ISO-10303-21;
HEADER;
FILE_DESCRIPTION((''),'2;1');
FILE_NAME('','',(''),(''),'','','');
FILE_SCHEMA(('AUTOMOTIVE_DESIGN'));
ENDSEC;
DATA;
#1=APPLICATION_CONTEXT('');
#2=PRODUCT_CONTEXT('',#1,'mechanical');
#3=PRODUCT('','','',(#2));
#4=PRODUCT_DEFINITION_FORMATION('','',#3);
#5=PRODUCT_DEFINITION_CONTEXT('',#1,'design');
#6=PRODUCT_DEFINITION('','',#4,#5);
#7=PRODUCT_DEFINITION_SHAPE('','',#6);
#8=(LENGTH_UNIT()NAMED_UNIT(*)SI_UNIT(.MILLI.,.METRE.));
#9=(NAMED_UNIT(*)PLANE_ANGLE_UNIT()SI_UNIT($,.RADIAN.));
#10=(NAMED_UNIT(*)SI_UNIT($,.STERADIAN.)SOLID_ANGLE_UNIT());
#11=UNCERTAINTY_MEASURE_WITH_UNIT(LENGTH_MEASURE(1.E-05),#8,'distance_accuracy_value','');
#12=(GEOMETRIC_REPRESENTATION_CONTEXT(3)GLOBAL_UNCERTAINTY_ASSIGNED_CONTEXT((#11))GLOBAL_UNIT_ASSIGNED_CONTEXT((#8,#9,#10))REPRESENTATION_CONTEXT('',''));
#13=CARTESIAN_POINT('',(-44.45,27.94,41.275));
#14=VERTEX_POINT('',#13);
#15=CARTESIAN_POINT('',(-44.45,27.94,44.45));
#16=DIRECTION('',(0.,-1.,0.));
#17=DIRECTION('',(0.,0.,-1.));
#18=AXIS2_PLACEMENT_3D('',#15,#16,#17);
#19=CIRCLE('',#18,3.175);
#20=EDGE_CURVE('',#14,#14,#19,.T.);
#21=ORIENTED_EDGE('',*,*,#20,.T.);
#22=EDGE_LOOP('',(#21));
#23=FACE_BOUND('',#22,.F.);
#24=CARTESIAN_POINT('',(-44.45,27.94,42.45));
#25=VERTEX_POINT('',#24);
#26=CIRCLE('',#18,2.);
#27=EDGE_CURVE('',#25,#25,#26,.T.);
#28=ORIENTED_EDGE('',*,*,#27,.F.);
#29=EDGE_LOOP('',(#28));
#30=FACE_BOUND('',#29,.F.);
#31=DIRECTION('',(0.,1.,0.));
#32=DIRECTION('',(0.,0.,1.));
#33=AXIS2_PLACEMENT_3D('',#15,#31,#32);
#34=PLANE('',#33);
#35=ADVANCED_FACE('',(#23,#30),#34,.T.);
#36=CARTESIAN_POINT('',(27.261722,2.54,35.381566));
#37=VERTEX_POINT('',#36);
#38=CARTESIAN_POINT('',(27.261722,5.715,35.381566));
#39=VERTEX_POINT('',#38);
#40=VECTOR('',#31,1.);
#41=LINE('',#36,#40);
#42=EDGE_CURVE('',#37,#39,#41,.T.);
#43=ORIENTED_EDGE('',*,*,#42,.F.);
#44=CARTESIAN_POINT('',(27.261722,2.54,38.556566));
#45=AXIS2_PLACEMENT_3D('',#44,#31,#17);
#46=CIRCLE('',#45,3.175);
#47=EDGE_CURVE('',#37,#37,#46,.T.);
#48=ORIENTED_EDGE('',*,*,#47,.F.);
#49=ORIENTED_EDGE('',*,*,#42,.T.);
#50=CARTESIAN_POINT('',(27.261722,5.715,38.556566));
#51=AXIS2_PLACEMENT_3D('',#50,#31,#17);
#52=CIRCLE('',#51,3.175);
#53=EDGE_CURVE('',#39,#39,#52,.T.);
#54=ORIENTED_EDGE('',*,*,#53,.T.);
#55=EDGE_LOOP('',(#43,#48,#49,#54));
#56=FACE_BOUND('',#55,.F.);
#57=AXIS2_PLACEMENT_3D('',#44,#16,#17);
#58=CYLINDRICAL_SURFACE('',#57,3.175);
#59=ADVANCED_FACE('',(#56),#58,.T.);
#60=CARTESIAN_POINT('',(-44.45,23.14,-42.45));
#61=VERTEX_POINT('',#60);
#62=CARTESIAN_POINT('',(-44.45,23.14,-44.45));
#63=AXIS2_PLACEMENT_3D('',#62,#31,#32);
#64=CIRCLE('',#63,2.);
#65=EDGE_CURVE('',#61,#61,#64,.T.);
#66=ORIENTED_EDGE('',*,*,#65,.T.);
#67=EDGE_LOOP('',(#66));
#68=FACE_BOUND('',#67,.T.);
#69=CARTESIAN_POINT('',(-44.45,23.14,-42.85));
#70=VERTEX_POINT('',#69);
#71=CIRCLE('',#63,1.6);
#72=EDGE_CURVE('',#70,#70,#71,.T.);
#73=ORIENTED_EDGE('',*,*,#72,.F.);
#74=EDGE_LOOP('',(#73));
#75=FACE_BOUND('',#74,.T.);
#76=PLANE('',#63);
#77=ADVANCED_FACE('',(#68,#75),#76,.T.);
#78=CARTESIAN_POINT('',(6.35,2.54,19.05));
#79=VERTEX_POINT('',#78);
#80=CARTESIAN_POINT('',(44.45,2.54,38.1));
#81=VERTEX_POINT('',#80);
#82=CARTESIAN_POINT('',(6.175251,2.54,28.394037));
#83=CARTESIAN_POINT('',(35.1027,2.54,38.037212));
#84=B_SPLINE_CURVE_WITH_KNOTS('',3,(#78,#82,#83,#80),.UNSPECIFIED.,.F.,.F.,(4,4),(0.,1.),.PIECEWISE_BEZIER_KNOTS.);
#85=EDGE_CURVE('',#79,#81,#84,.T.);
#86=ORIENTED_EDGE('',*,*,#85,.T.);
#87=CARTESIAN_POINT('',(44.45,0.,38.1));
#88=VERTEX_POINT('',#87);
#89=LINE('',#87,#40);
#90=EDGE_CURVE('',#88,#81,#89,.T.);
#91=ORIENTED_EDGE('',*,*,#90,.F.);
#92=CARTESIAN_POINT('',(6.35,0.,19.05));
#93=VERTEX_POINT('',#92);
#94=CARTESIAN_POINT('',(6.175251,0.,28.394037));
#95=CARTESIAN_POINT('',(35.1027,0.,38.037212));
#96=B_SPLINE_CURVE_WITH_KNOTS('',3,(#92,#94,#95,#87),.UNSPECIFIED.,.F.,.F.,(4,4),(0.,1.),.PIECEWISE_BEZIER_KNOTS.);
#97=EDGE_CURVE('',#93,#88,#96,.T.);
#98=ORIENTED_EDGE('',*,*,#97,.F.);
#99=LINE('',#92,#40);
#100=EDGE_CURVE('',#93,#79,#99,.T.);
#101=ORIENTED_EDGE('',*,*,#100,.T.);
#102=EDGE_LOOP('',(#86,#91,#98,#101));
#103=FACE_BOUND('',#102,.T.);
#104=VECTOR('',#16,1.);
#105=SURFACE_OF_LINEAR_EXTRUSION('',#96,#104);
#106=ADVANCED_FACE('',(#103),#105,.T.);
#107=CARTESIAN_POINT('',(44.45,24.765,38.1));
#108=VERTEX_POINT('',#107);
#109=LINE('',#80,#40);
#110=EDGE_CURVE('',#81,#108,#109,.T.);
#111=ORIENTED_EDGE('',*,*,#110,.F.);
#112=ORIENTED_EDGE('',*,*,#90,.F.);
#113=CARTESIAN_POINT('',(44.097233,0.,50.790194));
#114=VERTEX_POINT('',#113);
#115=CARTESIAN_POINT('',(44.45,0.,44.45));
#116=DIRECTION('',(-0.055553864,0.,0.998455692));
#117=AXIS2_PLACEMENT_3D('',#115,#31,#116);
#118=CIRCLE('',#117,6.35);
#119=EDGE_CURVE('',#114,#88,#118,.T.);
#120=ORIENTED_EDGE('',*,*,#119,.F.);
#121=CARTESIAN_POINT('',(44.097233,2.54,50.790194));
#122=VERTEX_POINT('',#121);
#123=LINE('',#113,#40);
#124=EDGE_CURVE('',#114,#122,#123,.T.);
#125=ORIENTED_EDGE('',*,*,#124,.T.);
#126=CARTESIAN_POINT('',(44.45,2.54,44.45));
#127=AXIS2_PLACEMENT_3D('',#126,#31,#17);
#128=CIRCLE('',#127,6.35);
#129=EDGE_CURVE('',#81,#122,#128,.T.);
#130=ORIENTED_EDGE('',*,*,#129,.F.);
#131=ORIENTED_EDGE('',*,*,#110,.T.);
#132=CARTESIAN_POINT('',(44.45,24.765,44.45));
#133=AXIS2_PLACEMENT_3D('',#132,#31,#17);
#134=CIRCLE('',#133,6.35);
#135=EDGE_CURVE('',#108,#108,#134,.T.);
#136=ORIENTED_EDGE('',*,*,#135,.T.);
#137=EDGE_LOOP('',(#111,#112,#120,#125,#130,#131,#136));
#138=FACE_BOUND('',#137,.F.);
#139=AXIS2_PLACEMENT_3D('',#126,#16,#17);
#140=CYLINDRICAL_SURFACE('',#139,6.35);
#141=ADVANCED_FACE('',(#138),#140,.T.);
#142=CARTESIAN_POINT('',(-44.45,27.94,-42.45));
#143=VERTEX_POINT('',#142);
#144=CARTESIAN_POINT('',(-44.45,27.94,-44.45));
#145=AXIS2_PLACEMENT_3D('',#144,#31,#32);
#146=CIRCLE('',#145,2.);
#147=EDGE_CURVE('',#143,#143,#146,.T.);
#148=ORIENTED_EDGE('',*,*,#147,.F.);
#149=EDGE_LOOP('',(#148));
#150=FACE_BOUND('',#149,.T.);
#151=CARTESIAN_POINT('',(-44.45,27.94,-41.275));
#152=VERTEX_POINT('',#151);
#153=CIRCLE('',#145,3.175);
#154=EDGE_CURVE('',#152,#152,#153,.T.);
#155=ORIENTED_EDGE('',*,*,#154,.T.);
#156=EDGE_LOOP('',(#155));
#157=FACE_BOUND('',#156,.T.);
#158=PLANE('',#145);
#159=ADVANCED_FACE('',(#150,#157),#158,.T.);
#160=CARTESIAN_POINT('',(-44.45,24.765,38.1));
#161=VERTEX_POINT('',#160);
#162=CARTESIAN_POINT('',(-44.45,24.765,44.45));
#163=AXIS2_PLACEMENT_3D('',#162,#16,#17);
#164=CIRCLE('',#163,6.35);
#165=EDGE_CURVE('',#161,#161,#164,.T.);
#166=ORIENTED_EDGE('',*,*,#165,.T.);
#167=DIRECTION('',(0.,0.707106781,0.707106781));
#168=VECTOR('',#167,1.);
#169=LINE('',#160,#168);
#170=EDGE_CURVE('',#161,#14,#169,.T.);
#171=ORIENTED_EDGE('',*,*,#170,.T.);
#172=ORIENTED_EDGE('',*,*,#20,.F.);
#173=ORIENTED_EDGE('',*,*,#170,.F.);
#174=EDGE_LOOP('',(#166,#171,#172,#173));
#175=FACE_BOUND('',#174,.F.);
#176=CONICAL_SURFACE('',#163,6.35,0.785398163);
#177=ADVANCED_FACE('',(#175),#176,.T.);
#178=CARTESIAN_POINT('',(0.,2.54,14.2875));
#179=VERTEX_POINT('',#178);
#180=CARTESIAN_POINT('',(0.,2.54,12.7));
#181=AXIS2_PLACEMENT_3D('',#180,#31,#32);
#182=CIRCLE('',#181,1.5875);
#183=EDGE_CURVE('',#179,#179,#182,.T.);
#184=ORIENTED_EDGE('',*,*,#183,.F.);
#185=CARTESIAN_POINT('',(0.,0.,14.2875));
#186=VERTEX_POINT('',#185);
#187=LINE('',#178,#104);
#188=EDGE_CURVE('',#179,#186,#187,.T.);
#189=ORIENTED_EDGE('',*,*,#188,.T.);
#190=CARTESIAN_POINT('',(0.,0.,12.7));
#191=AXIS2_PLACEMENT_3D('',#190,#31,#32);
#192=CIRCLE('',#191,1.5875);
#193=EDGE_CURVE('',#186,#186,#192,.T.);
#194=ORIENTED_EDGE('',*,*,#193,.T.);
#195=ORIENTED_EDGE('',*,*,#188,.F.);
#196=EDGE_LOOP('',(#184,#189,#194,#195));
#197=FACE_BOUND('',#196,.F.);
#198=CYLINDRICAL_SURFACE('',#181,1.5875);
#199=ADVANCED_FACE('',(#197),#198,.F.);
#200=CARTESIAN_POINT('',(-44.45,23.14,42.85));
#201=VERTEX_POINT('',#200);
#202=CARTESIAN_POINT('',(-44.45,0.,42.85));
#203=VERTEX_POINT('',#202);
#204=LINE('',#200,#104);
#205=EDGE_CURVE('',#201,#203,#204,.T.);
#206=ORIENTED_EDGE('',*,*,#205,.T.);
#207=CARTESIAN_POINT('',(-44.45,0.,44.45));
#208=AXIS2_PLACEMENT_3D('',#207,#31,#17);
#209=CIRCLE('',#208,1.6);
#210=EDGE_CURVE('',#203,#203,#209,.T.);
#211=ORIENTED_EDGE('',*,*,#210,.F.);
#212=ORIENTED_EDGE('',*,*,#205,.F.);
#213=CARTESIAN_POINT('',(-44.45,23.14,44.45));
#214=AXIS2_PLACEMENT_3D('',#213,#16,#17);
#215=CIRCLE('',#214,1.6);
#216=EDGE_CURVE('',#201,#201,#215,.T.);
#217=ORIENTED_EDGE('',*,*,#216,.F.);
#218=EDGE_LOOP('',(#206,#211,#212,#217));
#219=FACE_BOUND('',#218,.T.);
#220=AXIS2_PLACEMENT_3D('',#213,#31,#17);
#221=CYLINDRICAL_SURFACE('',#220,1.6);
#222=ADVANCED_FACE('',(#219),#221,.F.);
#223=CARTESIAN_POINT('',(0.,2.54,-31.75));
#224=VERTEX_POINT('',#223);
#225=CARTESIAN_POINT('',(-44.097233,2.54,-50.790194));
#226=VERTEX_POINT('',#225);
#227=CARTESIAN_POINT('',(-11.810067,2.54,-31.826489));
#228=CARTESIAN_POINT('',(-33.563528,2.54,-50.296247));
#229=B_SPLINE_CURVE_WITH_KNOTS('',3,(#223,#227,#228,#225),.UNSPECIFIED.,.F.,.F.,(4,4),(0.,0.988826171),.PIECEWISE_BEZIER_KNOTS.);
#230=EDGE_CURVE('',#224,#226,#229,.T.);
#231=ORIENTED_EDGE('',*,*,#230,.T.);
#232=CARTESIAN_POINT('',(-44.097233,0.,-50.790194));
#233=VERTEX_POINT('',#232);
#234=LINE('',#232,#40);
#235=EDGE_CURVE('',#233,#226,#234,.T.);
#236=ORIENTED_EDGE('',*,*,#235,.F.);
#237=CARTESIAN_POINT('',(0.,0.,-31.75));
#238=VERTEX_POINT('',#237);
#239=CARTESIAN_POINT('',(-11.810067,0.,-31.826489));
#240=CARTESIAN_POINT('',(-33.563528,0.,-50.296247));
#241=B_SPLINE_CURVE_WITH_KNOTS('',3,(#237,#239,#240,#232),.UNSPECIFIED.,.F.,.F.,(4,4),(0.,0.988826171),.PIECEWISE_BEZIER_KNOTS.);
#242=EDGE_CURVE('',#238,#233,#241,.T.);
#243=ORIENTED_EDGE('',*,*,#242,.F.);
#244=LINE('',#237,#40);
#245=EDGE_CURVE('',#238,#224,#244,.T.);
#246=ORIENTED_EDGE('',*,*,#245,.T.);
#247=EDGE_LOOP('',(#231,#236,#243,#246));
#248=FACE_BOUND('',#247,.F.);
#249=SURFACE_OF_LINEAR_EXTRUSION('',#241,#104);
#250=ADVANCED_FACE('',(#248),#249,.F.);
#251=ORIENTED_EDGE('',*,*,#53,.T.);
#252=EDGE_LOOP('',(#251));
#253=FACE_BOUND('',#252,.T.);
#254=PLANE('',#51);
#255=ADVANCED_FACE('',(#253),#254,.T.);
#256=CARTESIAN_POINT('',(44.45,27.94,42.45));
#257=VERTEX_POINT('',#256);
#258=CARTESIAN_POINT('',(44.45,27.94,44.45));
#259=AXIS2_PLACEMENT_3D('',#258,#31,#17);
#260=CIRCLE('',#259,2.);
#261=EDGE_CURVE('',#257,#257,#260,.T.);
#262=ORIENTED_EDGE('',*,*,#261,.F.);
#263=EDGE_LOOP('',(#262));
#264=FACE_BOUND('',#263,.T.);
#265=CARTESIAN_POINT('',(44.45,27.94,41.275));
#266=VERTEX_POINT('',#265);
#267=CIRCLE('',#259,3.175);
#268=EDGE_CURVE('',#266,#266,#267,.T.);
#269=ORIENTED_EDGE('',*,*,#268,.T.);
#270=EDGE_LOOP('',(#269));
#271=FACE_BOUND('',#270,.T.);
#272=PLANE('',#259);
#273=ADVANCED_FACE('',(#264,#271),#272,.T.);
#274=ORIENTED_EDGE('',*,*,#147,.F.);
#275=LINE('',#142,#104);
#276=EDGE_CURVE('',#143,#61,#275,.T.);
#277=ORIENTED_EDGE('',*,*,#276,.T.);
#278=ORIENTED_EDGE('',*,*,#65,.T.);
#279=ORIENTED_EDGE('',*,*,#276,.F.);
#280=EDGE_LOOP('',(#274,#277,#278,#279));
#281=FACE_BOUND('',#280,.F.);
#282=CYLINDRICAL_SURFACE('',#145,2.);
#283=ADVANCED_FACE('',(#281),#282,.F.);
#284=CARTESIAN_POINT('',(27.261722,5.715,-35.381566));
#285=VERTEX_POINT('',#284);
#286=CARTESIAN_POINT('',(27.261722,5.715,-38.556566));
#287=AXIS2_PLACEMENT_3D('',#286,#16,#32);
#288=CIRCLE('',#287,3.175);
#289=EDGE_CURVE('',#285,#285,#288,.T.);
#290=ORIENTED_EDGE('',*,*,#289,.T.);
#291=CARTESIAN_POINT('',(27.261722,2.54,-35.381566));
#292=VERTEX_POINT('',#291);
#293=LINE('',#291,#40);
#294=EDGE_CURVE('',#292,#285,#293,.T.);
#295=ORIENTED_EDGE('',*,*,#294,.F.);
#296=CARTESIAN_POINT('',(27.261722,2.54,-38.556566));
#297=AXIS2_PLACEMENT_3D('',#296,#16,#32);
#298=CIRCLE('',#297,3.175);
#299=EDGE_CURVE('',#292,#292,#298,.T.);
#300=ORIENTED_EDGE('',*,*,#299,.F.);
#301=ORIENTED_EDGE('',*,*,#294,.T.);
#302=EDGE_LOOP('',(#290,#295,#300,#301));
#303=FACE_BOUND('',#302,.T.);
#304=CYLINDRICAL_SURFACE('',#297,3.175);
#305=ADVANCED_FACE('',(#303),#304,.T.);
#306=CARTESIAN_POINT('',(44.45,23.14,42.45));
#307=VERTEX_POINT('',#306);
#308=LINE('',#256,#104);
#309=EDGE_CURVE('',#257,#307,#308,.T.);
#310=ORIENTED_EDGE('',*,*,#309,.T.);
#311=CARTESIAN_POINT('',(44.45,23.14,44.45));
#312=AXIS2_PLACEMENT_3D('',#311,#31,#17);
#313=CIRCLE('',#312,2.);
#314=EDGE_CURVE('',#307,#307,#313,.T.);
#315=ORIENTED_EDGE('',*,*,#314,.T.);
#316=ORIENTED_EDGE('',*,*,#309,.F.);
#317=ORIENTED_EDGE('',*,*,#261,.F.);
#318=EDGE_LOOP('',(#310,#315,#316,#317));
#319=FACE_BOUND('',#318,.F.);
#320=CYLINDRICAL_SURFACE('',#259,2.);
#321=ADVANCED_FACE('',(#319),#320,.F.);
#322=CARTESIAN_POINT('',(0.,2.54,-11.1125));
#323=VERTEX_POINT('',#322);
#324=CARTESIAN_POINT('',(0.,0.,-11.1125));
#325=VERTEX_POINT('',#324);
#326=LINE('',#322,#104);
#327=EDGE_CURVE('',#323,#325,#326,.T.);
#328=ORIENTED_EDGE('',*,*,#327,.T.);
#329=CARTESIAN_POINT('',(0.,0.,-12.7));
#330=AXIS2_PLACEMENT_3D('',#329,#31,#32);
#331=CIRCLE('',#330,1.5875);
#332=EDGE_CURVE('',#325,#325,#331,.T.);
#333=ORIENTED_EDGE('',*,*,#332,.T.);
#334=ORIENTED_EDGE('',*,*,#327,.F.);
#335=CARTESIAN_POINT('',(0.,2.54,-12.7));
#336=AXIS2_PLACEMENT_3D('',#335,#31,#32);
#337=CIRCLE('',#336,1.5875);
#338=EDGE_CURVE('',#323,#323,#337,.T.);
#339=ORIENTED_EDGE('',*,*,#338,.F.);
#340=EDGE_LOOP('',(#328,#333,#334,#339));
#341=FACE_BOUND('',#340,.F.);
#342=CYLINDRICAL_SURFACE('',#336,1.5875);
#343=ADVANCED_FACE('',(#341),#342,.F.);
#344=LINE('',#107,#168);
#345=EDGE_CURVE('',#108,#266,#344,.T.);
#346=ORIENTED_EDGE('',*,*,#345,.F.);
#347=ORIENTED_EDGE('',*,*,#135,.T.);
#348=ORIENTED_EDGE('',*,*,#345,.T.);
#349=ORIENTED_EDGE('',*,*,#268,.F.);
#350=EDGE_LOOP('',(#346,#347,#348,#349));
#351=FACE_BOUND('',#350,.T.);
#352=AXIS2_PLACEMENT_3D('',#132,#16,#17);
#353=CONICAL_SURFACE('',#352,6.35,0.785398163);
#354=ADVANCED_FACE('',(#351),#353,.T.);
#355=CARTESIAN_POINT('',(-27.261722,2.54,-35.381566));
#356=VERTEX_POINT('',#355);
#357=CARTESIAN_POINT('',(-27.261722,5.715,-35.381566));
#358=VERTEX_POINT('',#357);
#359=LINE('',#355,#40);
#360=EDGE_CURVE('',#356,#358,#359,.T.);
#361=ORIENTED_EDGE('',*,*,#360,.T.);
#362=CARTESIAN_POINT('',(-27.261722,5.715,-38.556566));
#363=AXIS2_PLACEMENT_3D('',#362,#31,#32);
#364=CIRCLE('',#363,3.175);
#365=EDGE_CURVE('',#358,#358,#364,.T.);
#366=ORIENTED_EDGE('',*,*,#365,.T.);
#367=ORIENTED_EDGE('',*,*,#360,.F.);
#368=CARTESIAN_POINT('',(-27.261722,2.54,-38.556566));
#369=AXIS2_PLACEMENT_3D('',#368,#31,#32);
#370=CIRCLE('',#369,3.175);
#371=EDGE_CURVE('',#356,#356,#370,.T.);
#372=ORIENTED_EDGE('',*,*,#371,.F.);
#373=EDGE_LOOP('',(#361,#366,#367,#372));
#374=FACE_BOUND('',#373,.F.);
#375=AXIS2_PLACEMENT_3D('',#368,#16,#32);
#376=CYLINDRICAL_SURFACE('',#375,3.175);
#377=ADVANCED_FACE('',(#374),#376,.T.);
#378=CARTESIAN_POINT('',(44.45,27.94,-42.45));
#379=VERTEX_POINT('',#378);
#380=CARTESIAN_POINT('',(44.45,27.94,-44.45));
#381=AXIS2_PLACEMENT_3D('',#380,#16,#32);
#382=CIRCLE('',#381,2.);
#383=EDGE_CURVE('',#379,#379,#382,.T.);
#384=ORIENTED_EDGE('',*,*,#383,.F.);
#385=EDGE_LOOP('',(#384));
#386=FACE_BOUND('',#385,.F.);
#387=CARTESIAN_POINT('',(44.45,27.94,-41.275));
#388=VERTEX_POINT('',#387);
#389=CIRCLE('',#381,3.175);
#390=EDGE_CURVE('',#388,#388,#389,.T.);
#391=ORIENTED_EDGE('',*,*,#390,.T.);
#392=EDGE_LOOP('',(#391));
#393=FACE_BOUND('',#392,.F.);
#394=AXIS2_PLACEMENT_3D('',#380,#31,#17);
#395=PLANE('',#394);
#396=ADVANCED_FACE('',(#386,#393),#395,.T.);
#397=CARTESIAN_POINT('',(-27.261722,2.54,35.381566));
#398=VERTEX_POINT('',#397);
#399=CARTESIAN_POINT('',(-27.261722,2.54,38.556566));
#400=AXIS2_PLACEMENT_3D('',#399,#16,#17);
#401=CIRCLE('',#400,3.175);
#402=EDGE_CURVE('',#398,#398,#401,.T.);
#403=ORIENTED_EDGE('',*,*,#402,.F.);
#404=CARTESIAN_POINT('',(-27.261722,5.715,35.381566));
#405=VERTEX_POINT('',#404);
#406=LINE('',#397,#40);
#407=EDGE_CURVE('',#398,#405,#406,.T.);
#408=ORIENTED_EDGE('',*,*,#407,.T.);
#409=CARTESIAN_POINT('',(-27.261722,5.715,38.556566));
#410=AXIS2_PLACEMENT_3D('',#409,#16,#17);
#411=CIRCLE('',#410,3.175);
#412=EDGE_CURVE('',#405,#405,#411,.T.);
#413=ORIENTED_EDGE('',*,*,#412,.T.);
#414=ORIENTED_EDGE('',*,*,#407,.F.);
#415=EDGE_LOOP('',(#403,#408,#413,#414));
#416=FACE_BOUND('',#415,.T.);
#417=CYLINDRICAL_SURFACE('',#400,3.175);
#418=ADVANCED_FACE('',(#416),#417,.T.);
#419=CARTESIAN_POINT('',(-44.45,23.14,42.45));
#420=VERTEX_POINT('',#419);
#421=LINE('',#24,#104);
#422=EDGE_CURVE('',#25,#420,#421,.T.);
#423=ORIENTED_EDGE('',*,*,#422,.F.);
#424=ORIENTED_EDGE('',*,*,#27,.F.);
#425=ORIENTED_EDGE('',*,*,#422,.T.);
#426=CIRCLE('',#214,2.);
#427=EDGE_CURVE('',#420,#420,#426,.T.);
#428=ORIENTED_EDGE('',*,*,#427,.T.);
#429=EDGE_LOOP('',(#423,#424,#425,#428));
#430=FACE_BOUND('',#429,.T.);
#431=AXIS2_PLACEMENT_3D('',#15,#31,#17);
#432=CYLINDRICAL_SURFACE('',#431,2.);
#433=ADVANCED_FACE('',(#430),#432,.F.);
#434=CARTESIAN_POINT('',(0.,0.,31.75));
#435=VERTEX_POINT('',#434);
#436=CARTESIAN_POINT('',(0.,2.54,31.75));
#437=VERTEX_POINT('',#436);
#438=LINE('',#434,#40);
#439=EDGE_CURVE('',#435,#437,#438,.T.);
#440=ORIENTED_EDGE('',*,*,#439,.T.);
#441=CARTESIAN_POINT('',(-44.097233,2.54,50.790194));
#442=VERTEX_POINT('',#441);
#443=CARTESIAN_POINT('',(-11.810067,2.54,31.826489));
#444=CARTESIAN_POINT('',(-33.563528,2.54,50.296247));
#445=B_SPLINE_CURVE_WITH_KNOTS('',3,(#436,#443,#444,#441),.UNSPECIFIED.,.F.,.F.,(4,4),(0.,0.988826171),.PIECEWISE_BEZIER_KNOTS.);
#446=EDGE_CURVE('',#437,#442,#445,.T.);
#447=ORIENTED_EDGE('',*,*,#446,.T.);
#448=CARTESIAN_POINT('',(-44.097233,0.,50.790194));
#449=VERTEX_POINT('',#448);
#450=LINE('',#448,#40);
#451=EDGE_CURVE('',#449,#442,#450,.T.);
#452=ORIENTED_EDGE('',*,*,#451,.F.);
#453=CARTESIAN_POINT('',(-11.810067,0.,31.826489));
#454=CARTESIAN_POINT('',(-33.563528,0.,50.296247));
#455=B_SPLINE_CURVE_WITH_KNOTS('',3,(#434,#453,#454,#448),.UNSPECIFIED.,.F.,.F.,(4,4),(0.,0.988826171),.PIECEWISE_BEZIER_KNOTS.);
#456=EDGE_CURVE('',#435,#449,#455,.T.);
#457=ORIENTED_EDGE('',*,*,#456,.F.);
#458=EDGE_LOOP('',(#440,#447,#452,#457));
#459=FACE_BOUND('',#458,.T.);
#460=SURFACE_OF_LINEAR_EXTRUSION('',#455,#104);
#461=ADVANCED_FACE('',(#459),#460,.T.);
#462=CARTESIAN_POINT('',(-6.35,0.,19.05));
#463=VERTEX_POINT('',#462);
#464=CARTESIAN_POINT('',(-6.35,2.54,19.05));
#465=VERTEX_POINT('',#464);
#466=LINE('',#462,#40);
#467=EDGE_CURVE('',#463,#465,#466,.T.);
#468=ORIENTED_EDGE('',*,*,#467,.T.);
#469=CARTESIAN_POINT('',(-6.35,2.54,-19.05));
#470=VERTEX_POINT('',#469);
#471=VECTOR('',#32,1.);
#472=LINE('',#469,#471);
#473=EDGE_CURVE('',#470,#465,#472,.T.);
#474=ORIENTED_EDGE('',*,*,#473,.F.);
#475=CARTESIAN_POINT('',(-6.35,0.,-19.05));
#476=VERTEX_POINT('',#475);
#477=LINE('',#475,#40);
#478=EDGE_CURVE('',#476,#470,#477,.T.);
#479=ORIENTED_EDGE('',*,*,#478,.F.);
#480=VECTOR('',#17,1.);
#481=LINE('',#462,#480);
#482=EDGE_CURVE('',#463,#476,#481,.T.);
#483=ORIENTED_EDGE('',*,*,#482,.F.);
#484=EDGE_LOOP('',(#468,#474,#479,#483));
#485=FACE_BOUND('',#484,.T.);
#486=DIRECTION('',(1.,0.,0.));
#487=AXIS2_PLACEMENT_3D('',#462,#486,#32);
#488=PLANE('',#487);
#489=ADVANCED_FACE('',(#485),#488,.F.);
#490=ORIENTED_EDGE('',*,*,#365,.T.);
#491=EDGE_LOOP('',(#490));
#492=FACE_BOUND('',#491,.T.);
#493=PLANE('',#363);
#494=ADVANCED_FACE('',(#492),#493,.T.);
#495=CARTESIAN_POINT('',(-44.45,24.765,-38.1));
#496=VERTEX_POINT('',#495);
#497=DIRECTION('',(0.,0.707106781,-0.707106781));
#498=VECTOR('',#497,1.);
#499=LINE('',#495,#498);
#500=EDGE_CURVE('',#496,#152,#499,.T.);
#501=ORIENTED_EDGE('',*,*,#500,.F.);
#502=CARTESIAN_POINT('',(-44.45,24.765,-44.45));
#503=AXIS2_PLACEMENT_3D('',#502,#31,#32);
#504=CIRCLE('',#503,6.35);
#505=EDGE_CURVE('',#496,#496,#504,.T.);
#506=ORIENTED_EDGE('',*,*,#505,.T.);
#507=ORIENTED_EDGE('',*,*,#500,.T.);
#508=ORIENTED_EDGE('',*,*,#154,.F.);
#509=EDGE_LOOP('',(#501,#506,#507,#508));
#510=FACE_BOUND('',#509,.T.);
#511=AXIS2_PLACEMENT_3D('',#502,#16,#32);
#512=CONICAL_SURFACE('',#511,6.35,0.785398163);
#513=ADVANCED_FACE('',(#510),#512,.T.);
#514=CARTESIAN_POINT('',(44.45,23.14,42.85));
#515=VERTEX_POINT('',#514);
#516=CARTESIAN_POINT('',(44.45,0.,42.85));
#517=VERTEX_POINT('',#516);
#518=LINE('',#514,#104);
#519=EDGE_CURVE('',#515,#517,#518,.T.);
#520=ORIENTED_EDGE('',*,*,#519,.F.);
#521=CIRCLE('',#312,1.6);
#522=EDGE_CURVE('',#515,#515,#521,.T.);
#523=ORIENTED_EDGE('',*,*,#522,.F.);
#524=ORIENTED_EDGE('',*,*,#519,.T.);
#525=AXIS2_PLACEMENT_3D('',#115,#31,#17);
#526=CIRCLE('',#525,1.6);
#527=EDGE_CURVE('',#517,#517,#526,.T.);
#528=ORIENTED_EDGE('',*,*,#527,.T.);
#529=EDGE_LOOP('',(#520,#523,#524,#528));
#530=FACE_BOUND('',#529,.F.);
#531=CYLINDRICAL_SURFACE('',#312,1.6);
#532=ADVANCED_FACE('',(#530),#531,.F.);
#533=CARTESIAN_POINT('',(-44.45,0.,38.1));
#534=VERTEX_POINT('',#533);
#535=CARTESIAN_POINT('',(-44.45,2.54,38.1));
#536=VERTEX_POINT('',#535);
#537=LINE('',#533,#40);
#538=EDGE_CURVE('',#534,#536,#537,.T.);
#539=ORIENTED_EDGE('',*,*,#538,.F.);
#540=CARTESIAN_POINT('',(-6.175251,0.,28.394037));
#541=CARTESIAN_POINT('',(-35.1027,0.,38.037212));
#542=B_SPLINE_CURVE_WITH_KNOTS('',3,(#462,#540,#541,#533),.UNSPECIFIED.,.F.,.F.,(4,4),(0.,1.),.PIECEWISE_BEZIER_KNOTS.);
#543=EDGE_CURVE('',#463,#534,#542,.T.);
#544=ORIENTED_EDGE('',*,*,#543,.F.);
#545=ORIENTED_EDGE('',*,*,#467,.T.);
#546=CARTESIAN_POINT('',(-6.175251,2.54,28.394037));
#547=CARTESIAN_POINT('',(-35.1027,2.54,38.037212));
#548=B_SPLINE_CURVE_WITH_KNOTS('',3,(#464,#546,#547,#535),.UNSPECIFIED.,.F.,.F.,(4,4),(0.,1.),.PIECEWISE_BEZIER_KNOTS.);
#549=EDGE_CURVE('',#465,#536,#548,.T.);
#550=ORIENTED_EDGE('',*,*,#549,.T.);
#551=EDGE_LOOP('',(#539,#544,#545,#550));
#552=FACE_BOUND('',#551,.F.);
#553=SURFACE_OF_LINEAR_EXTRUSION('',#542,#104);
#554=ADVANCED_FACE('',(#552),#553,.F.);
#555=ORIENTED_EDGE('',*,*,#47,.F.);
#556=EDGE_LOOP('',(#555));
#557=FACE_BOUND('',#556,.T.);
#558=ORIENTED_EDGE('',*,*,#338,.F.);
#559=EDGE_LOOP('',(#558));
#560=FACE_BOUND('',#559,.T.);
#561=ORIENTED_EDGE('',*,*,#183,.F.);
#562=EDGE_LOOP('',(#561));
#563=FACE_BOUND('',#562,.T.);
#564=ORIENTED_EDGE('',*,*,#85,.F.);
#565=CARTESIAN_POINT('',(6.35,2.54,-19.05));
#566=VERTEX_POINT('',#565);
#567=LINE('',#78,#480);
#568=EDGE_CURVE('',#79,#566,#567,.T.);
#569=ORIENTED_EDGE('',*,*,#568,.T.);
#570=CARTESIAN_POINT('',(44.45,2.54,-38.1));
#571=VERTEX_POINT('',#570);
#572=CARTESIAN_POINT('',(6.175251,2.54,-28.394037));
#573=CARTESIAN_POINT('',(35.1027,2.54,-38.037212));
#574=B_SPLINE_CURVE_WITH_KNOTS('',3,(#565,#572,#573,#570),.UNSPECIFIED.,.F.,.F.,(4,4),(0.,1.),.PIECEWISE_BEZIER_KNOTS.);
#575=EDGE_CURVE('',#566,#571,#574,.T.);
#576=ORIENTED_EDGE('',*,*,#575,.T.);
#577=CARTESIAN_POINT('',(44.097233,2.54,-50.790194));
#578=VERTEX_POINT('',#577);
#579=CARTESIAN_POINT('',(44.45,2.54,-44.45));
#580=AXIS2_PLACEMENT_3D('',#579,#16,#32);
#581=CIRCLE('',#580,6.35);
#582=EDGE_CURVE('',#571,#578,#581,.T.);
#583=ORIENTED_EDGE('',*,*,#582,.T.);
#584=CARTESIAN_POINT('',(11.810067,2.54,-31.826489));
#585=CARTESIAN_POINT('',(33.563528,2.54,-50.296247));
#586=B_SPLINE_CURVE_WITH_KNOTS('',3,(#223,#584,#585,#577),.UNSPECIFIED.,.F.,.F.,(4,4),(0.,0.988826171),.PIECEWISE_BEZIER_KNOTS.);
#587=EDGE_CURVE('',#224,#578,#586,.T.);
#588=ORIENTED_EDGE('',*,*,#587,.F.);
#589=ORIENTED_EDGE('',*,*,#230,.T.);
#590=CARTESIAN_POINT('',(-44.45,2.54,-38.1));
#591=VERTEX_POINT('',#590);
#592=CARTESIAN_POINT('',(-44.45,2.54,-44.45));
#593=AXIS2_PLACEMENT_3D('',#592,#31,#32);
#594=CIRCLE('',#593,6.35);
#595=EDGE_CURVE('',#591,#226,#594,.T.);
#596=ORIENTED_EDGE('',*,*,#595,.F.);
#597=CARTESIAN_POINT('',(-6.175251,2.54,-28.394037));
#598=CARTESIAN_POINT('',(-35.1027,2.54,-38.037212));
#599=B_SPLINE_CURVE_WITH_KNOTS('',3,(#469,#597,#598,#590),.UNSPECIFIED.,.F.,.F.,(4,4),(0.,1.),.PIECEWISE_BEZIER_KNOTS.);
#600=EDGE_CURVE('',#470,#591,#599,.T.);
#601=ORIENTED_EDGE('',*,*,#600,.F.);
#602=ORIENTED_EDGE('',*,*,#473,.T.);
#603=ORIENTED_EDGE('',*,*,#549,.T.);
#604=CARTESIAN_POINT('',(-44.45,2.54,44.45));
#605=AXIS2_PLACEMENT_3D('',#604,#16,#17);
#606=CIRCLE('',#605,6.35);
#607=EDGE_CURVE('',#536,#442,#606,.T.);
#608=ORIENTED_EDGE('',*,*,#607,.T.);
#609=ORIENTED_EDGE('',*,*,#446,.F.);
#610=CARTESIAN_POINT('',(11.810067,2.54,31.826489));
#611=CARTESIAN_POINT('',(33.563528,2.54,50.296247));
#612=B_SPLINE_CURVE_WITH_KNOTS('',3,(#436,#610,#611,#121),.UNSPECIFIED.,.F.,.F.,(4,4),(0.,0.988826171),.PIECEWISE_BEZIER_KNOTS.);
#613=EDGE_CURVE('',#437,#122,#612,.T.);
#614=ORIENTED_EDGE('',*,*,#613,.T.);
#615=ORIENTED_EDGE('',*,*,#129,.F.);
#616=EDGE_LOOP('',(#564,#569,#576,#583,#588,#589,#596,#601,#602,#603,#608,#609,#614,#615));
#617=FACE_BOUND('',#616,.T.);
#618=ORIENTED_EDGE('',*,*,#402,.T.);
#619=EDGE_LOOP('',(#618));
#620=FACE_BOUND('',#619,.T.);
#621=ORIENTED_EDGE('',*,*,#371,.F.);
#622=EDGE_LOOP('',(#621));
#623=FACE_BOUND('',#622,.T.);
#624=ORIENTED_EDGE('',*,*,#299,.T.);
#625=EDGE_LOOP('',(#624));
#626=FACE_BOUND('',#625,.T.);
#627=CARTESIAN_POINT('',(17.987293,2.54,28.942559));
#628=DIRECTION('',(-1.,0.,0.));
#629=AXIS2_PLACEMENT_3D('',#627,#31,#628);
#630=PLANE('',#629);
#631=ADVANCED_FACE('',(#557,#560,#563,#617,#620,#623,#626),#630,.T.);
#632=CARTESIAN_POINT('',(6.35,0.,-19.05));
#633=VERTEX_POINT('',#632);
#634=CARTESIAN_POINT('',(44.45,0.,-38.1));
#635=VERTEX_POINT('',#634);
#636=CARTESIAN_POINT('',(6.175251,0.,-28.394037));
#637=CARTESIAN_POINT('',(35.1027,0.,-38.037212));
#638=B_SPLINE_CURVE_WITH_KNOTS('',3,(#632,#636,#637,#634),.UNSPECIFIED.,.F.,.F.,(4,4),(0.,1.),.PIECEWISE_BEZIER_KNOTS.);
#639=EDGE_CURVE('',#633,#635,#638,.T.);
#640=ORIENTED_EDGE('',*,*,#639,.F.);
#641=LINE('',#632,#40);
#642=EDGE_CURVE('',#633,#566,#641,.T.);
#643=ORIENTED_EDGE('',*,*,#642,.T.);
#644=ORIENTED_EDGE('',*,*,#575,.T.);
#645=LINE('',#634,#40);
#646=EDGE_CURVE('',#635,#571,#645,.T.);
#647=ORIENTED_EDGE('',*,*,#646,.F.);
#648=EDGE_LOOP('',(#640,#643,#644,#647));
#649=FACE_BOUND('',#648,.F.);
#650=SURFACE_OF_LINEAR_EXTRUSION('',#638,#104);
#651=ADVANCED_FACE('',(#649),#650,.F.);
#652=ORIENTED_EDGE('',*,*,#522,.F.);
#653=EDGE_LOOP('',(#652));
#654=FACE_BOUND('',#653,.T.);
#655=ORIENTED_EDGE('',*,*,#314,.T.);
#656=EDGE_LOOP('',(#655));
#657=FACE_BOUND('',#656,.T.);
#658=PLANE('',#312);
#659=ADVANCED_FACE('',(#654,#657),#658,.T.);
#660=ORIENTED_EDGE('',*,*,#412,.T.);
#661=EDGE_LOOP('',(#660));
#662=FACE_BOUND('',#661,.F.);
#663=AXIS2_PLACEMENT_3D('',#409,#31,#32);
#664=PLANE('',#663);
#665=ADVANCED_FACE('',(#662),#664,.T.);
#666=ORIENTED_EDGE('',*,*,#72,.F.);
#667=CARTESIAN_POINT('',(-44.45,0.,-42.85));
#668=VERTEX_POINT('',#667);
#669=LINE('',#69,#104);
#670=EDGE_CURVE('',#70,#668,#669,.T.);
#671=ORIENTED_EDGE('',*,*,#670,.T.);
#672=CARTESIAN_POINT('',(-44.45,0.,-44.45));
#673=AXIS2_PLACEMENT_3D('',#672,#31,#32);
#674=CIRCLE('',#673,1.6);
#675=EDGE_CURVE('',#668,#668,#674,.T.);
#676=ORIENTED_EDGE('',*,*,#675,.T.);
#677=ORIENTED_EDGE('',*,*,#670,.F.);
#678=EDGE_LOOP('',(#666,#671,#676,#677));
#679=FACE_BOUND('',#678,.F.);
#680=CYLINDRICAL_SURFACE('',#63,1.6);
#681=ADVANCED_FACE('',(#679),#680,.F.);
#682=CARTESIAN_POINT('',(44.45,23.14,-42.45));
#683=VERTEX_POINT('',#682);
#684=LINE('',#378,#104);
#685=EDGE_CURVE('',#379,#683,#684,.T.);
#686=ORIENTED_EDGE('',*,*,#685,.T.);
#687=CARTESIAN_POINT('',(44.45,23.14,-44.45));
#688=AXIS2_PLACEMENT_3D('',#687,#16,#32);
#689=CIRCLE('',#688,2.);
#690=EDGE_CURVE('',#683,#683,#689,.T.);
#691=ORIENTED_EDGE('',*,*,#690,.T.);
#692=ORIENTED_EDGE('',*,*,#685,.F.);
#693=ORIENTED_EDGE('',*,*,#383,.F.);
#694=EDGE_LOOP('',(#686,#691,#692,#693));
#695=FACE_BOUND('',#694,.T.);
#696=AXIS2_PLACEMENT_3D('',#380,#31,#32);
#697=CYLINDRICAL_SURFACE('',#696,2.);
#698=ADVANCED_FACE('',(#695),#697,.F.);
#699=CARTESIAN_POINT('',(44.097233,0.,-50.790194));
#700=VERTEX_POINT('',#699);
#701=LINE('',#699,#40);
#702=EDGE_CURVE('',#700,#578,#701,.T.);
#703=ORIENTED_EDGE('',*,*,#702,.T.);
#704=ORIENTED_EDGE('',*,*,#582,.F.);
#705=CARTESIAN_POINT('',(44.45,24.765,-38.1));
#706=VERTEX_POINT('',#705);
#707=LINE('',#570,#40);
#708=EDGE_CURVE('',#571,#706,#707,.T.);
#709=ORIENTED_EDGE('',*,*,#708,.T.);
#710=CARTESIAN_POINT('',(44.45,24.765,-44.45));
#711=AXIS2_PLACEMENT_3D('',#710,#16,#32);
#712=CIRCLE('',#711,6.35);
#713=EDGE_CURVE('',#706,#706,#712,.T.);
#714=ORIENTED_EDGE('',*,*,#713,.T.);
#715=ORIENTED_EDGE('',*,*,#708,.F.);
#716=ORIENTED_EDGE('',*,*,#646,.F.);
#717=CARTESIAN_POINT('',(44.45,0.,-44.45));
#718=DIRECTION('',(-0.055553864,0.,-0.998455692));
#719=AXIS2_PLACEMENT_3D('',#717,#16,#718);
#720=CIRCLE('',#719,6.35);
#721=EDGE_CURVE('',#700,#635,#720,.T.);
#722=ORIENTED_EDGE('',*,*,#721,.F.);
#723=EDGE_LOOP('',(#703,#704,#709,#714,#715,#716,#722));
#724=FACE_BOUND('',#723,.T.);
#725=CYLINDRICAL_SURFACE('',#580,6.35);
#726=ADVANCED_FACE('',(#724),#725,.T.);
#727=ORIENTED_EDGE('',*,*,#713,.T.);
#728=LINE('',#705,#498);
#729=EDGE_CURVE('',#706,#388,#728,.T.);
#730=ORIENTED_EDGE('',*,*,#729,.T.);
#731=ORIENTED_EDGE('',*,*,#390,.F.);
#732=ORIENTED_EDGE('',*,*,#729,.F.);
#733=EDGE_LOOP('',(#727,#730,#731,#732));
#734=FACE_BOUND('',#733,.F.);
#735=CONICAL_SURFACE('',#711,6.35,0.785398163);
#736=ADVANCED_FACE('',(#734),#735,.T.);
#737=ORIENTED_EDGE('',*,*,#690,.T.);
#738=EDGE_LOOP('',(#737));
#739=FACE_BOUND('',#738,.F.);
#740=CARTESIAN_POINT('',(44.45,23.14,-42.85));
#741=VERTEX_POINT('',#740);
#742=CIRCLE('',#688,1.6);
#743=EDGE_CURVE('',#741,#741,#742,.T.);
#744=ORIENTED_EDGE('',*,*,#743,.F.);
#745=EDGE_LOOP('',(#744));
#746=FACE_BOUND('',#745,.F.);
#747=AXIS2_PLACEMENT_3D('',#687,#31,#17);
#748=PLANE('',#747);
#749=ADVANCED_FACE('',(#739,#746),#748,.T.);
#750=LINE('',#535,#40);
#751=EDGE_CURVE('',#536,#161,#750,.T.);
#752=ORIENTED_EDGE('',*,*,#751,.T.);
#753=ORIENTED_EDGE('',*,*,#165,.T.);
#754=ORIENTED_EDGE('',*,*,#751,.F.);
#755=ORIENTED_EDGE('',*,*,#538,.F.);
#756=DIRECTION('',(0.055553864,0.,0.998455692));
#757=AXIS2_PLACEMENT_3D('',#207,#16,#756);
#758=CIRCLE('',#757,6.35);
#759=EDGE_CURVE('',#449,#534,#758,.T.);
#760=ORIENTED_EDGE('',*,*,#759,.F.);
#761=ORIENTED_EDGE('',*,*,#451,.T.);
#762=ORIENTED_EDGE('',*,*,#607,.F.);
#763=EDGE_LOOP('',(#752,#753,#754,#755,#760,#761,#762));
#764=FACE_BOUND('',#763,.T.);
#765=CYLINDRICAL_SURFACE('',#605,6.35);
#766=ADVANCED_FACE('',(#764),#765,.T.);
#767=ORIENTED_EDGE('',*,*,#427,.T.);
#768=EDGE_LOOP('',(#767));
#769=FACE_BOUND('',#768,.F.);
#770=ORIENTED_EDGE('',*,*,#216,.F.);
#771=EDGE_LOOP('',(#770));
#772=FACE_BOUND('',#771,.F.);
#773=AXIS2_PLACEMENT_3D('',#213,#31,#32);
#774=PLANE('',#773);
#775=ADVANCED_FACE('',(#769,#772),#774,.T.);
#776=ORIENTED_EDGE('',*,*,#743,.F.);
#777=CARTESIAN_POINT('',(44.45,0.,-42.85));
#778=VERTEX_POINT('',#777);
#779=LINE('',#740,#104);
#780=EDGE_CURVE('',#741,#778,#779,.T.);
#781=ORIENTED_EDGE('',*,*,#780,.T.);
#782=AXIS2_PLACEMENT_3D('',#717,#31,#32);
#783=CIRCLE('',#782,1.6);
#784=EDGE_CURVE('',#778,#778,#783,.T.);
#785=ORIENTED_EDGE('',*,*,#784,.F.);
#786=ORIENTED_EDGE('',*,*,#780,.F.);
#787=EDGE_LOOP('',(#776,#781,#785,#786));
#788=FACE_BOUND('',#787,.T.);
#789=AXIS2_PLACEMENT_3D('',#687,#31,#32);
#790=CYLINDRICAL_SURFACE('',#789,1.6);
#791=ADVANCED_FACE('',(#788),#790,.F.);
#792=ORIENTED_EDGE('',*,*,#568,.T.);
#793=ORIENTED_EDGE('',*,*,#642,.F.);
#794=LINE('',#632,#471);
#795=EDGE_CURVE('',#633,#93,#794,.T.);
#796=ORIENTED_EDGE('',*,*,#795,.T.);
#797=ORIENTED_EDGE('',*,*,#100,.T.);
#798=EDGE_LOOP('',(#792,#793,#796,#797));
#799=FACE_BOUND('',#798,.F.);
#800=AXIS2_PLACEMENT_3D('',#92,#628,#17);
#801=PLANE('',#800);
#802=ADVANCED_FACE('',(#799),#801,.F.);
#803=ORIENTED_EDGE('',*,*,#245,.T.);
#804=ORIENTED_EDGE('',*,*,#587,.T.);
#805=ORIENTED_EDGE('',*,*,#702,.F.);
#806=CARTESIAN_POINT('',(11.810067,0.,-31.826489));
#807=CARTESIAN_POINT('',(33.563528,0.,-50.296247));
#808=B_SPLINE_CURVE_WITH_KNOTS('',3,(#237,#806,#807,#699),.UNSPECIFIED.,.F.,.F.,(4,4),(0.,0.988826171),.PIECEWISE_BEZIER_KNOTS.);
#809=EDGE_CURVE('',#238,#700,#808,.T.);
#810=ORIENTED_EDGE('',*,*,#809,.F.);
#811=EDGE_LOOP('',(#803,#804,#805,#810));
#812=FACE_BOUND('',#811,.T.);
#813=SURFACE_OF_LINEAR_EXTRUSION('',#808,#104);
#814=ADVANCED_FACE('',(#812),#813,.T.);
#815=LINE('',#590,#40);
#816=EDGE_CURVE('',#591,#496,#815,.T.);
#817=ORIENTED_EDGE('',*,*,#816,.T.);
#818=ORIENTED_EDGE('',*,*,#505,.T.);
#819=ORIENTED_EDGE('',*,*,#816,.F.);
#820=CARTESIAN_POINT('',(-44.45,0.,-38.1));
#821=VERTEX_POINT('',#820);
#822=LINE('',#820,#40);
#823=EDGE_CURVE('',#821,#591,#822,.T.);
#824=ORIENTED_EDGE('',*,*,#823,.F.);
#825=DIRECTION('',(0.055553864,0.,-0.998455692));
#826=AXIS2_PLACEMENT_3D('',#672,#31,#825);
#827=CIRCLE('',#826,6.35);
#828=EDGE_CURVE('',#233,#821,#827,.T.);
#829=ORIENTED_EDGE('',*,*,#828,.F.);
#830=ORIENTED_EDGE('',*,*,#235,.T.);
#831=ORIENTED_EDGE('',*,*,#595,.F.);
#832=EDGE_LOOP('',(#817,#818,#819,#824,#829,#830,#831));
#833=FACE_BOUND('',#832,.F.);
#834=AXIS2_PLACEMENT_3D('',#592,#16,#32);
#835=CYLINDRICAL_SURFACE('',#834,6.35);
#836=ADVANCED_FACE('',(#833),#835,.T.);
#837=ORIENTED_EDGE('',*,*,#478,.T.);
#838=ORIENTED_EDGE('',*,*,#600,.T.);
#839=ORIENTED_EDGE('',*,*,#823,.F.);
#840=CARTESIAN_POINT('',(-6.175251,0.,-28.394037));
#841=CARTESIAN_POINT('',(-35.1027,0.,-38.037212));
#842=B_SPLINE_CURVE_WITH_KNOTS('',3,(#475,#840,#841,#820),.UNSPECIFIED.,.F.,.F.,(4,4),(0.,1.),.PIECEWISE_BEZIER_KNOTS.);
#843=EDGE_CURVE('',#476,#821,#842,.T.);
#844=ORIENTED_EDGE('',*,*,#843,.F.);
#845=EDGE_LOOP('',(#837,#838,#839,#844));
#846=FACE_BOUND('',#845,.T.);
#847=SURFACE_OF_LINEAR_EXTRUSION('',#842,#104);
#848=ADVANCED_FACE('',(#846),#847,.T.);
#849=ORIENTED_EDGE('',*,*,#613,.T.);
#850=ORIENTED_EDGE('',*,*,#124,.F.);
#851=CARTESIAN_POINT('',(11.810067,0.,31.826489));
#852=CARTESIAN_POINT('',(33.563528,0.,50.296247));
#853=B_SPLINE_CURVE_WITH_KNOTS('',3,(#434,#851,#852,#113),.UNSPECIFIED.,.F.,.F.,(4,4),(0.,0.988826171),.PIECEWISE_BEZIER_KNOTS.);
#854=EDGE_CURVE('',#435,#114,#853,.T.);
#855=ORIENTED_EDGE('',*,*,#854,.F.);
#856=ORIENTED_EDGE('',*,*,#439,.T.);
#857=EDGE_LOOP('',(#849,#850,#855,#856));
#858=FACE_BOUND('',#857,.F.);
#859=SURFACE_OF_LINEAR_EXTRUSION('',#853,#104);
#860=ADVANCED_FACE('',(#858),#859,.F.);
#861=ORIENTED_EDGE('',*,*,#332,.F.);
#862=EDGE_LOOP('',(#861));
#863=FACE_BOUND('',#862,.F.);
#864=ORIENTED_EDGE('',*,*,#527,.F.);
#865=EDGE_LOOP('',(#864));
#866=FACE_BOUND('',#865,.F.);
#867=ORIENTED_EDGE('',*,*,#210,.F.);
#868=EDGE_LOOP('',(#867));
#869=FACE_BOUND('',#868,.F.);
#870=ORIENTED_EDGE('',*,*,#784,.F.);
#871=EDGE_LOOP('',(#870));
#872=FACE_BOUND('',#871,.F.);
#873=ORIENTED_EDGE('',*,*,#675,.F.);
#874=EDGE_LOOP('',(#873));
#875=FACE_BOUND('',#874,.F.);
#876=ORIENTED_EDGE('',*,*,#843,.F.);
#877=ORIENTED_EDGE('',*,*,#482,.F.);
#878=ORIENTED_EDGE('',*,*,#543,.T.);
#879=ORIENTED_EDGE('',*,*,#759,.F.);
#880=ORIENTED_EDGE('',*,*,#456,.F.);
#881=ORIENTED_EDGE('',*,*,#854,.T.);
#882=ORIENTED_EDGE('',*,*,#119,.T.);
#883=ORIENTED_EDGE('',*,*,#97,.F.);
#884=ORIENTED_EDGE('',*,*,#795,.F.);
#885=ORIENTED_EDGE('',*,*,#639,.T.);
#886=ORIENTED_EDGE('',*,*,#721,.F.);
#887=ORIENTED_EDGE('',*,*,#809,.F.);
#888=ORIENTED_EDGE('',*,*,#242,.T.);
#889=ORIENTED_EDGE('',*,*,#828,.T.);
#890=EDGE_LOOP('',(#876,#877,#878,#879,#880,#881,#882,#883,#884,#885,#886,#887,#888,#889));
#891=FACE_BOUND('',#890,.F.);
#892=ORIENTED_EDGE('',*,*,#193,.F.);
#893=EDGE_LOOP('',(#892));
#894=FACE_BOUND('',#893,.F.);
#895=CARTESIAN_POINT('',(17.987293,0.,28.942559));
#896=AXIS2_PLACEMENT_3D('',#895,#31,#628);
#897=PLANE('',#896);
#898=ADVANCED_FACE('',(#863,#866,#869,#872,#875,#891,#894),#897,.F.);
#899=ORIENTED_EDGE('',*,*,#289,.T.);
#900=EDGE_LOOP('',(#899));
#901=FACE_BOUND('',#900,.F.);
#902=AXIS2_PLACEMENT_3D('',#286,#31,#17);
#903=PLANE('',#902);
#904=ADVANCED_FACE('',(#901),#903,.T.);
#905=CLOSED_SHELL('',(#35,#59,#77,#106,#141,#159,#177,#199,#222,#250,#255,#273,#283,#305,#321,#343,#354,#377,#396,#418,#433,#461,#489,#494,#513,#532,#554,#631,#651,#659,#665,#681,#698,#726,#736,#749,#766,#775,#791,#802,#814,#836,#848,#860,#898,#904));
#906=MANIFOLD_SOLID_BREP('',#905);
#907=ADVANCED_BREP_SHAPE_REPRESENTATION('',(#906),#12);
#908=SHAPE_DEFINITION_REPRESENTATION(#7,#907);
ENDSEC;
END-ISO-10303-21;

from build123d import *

# Parameters (mm, degrees)
BOSS_EXTRUDE1_DEPTH                        = 2.54
SKETCH2_R                                  = 6.350000000000003
BOSS_EXTRUDE2_DEPTH                        = 25.4
MIRROR1_AT_THE_SECOND_PLANE_COPY_1_DEPTH   = 2.54
MIRROR1_AT_THE_SECOND_PLANE_COPY_2_SKETC_R = 6.350000000000003
MIRROR1_AT_THE_SECOND_PLANE_COPY_2_DEPTH   = 25.4
CHAMFER1_SIZE                              = 3.175
SKETCH3_R                                  = 1.5875000000000001
CUT_EXTRUDE1_DEPTH                         = 77.20000013333332
SKETCH4_R                                  = 2.0000000000000036
CUT_EXTRUDE2_DEPTH                         = 4.8
SKETCH5_R                                  = 1.5999999999999974
CUT_EXTRUDE3_DEPTH                         = 76.47674890287736
MIRROR2_AT_THE_SECOND_PLANE_COPY_1_SKETC_R = 2.0000000000000036
MIRROR2_AT_THE_SECOND_PLANE_COPY_1_DEPTH   = 4.8
MIRROR2_AT_THE_SECOND_PLANE_COPY_2_SKETC_R = 1.5999999999999974
MIRROR2_AT_THE_SECOND_PLANE_COPY_2_DEPTH   = 76.47674890287736
SKETCH6_R                                  = 3.1750000000000003
BOSS_EXTRUDE3_DEPTH                        = 3.175
MIRROR3_AT_THE_SECOND_PLANE_COPY_1_SKETC_R = 3.1750000000000003
MIRROR3_AT_THE_SECOND_PLANE_COPY_1_DEPTH   = 3.175


with BuildPart() as part:
    # Sketch1 → Boss-Extrude1 (new body)
    with BuildSketch(Plane(origin=(0, 0, 0), x_dir=(1, 0, 0), z_dir=(0, 1, 0))):
        with BuildLine():
            Line((-6.35, -7.8e-16), (0, 0))
            Line((0, 0), (0, 31.75))
            add(Edge.make_bspline(
                [(0, 31.75), (-11.810067101614626, 31.826488984199244), (-33.56352785361864, 50.29624659174145), (-44.09723296316762, 50.79019364197376)],
                knots=[0, 0, 0, 0, 0.9888261705717568, 0.9888261705717568, 0.9888261705717568, 0.9888261705717568], degree=3))
            ThreePointArc((-44.09723296316761, 50.79019364197375), (-39.836835647633734, 48.81362402803646), (-38.099999999999994, 44.44999999999999))
            ThreePointArc((-38.099999999999994, 44.44999999999999), (-39.959871939465415, 39.95987193946541), (-44.449999999999996, 38.09999999999999))
            add(Edge.make_bspline(
                [(-6.35, 19.05), (-6.175250797111612, 28.394037165914764), (-35.10270017916649, 38.03721238456326), (-44.449999999999996, 38.09999999999999)],
                knots=[0, 0, 0, 0, 1, 1, 1, 1], degree=3))
            Line((-6.35, 19.05), (-6.35, -7.8e-16))
        make_face()
        with BuildLine():
            add(Edge.make_bspline(
                [(-44.09723296316762, 50.79019364197376), (-44.216264829075314, 50.79577529044761), (-44.333864020357055, 50.79906156917483), (-44.45000000000001, 50.79999999999999)],
                knots=[0.9888261705717568, 0.9888261705717568, 0.9888261705717568, 0.9888261705717568, 1, 1, 1, 1], degree=3))
            ThreePointArc((-44.09723296316761, 50.79019364197375), (-44.27354834448691, 50.79754793705936), (-44.45000000000001, 50.79999999999999))
        make_face()
        with BuildLine():
            ThreePointArc((-38.099999999999994, 44.44999999999999), (-39.836835647633734, 48.81362402803646), (-44.09723296316761, 50.79019364197375))
            add(Edge.make_bspline(
                [(-44.09723296316762, 50.79019364197376), (-44.216264829075314, 50.79577529044761), (-44.333864020357055, 50.79906156917483), (-44.45000000000001, 50.79999999999999)],
                knots=[0.9888261705717568, 0.9888261705717568, 0.9888261705717568, 0.9888261705717568, 1, 1, 1, 1], degree=3))
            ThreePointArc((-44.45000000000001, 50.79999999999999), (-50.8, 44.44999999999998), (-44.449999999999996, 38.09999999999999))
            ThreePointArc((-44.449999999999996, 38.09999999999999), (-39.959871939465415, 39.95987193946541), (-38.099999999999994, 44.44999999999999))
        make_face()
    boss_extrude1 = extrude(amount=BOSS_EXTRUDE1_DEPTH)

    # Sketch2 → Boss-Extrude2 (add)
    with BuildSketch(Plane(origin=(0, 2.54, 0), x_dir=(1, 0, 0), z_dir=(0, 1, 0))):
        with Locations(Location((-44.449999999999996, 44.44999999999999, 0), (0, 0, 270))):
            Circle(SKETCH2_R)
    boss_extrude2 = extrude(amount=BOSS_EXTRUDE2_DEPTH)

    # Mirror1: Boss-Extrude1, Boss-Extrude2 across plane
    add(boss_extrude1.mirror(Plane(origin=(0, 0, 0), x_dir=(0, 0, 1), z_dir=(1, 0, 0))))
    add(boss_extrude2.mirror(Plane(origin=(0, 0, 0), x_dir=(0, 0, 1), z_dir=(1, 0, 0))))

    # Mirror1 at the second plane: Boss-Extrude1, Boss-Extrude2 across plane
    add(boss_extrude1.mirror(Plane.XY))
    add(boss_extrude2.mirror(Plane.XY))

    # Mirror1 at the second plane copy 1 sketc → Mirror1 at the second plane copy 1 (add)
    with BuildSketch(Plane(origin=(0, 0, 0), x_dir=(-1, 0, 0), z_dir=(0, 1, 0))):
        with BuildLine():
            Line((-6.35, -7.8e-16), (0, 0))
            Line((0, 0), (0, 31.75))
            add(Edge.make_bspline(
                [(0, 31.75), (-11.810067101614626, 31.826488984199244), (-33.56352785361864, 50.29624659174145), (-44.09723296316762, 50.79019364197376)],
                knots=[0, 0, 0, 0, 0.9888261705717568, 0.9888261705717568, 0.9888261705717568, 0.9888261705717568], degree=3))
            ThreePointArc((-44.09723296316761, 50.79019364197375), (-39.836835647633734, 48.81362402803646), (-38.099999999999994, 44.44999999999999))
            ThreePointArc((-38.099999999999994, 44.44999999999999), (-39.959871939465415, 39.95987193946541), (-44.449999999999996, 38.09999999999999))
            add(Edge.make_bspline(
                [(-6.35, 19.05), (-6.175250797111612, 28.394037165914764), (-35.10270017916649, 38.03721238456326), (-44.449999999999996, 38.09999999999999)],
                knots=[0, 0, 0, 0, 1, 1, 1, 1], degree=3))
            Line((-6.35, 19.05), (-6.35, -7.8e-16))
        make_face()
        with BuildLine():
            add(Edge.make_bspline(
                [(-44.09723296316762, 50.79019364197376), (-44.216264829075314, 50.79577529044761), (-44.333864020357055, 50.79906156917483), (-44.45000000000001, 50.79999999999999)],
                knots=[0.9888261705717568, 0.9888261705717568, 0.9888261705717568, 0.9888261705717568, 1, 1, 1, 1], degree=3))
            ThreePointArc((-44.09723296316761, 50.79019364197375), (-44.27354834448691, 50.79754793705936), (-44.45000000000001, 50.79999999999999))
        make_face()
        with BuildLine():
            ThreePointArc((-38.099999999999994, 44.44999999999999), (-39.836835647633734, 48.81362402803646), (-44.09723296316761, 50.79019364197375))
            add(Edge.make_bspline(
                [(-44.09723296316762, 50.79019364197376), (-44.216264829075314, 50.79577529044761), (-44.333864020357055, 50.79906156917483), (-44.45000000000001, 50.79999999999999)],
                knots=[0.9888261705717568, 0.9888261705717568, 0.9888261705717568, 0.9888261705717568, 1, 1, 1, 1], degree=3))
            ThreePointArc((-44.45000000000001, 50.79999999999999), (-50.8, 44.44999999999998), (-44.449999999999996, 38.09999999999999))
            ThreePointArc((-44.449999999999996, 38.09999999999999), (-39.959871939465415, 39.95987193946541), (-38.099999999999994, 44.44999999999999))
        make_face()
    extrude(amount=MIRROR1_AT_THE_SECOND_PLANE_COPY_1_DEPTH)

    # Mirror1 at the second plane copy 2 sketc → Mirror1 at the second plane copy 2 (add)
    with BuildSketch(Plane(origin=(0, 2.54, 0), x_dir=(-1, 0, 0), z_dir=(0, 1, 0))):
        with Locations(Location((-44.449999999999996, 44.44999999999999, 0), (0, 0, 270))):
            Circle(MIRROR1_AT_THE_SECOND_PLANE_COPY_2_SKETC_R)
    extrude(amount=MIRROR1_AT_THE_SECOND_PLANE_COPY_2_DEPTH)

    # Chamfer1
    chamfer1_edges = [part.edges().sort_by_distance(p)[0] for p in [
        (-44.449999999999996, 27.939999999999998, -50.79999999999999),
        (-44.449999999999996, 27.939999999999998, 50.79999999999999),
        (44.449999999999996, 27.939999999999998, -50.79999999999999),
        (44.449999999999996, 27.939999999999998, 50.79999999999999),
    ]]
    chamfer(chamfer1_edges, length=CHAMFER1_SIZE)

    # Sketch3 → Cut-Extrude1 (cut, through all)
    with BuildSketch(Plane(origin=(0, 2.54, 0), x_dir=(1, 0, 0), z_dir=(0, 1, 0))):
        with Locations(Location((0, 12.7, 0), (0, 0, 270))):
            Circle(SKETCH3_R)
        with Locations(Location((0, -12.7, 0), (0, 0, 270))):
            Circle(SKETCH3_R)
    extrude(amount=-CUT_EXTRUDE1_DEPTH, mode=Mode.SUBTRACT)

    # Sketch4 → Cut-Extrude2 (cut)
    with BuildSketch(Plane(origin=(0, 27.94, 0), x_dir=(1, 0, 0), z_dir=(0, 1, 0))):
        with Locations(Location((-44.449999999999996, 44.44999999999999, 0), (0, 0, 270))):
            Circle(SKETCH4_R)
    cut_extrude2 = extrude(amount=-CUT_EXTRUDE2_DEPTH, mode=Mode.SUBTRACT)

    # Sketch5 → Cut-Extrude3 (cut, through all)
    with BuildSketch(Plane(origin=(0, 23.14, 0), x_dir=(1, 0, 0), z_dir=(0, 1, 0))):
        with Locations(Location((-44.449999999999996, 44.44999999999999, 0), (0, 0, 270))):
            Circle(SKETCH5_R)
    cut_extrude3 = extrude(amount=-CUT_EXTRUDE3_DEPTH, mode=Mode.SUBTRACT)

    # Mirror2: Cut-Extrude2, Cut-Extrude3 across plane
    add(cut_extrude2.mirror(Plane(origin=(0, 0, 0), x_dir=(0, 0, 1), z_dir=(1, 0, 0))), mode=Mode.SUBTRACT)
    add(cut_extrude3.mirror(Plane(origin=(0, 0, 0), x_dir=(0, 0, 1), z_dir=(1, 0, 0))), mode=Mode.SUBTRACT)

    # Mirror2 at the second plane: Cut-Extrude2, Cut-Extrude3 across plane
    add(cut_extrude2.mirror(Plane.XY), mode=Mode.SUBTRACT)
    add(cut_extrude3.mirror(Plane.XY), mode=Mode.SUBTRACT)

    # Mirror2 at the second plane copy 1 sketc → Mirror2 at the second plane copy 1 (cut)
    with BuildSketch(Plane(origin=(0, 27.94, 0), x_dir=(-1, 0, 0), z_dir=(0, 1, 0))):
        with Locations(Location((-44.449999999999996, 44.44999999999999, 0), (0, 0, 270))):
            Circle(MIRROR2_AT_THE_SECOND_PLANE_COPY_1_SKETC_R)
    extrude(amount=-MIRROR2_AT_THE_SECOND_PLANE_COPY_1_DEPTH, mode=Mode.SUBTRACT)

    # Mirror2 at the second plane copy 2 sketc → Mirror2 at the second plane copy 2 (cut, through all)
    with BuildSketch(Plane(origin=(0, 23.14, 0), x_dir=(-1, 0, 0), z_dir=(0, 1, 0))):
        with Locations(Location((-44.449999999999996, 44.44999999999999, 0), (0, 0, 270))):
            Circle(MIRROR2_AT_THE_SECOND_PLANE_COPY_2_SKETC_R)
    extrude(amount=-MIRROR2_AT_THE_SECOND_PLANE_COPY_2_DEPTH, mode=Mode.SUBTRACT)

    # Sketch6 → Boss-Extrude3 (add)
    with BuildSketch(Plane(origin=(0, 2.54, 0), x_dir=(1, 0, 0), z_dir=(0, 1, 0))):
        with Locations(Location((-27.261721515519312, 38.55656577331098, 0), (0, 0, 270))):
            Circle(SKETCH6_R)
    boss_extrude3 = extrude(amount=BOSS_EXTRUDE3_DEPTH)

    # Mirror3: Boss-Extrude3 across plane
    add(boss_extrude3.mirror(Plane(origin=(0, 0, 0), x_dir=(0, 0, 1), z_dir=(1, 0, 0))))

    # Mirror3 at the second plane: Boss-Extrude3 across plane
    add(boss_extrude3.mirror(Plane.XY))

    # Mirror3 at the second plane copy 1 sketc → Mirror3 at the second plane copy 1 (add)
    with BuildSketch(Plane(origin=(0, 2.54, 0), x_dir=(-1, 0, 0), z_dir=(0, 1, 0))):
        with Locations(Location((-27.261721515519312, 38.55656577331098, 0), (0, 0, 270))):
            Circle(MIRROR3_AT_THE_SECOND_PLANE_COPY_1_SKETC_R)
    extrude(amount=MIRROR3_AT_THE_SECOND_PLANE_COPY_1_DEPTH)


solid = part.part
